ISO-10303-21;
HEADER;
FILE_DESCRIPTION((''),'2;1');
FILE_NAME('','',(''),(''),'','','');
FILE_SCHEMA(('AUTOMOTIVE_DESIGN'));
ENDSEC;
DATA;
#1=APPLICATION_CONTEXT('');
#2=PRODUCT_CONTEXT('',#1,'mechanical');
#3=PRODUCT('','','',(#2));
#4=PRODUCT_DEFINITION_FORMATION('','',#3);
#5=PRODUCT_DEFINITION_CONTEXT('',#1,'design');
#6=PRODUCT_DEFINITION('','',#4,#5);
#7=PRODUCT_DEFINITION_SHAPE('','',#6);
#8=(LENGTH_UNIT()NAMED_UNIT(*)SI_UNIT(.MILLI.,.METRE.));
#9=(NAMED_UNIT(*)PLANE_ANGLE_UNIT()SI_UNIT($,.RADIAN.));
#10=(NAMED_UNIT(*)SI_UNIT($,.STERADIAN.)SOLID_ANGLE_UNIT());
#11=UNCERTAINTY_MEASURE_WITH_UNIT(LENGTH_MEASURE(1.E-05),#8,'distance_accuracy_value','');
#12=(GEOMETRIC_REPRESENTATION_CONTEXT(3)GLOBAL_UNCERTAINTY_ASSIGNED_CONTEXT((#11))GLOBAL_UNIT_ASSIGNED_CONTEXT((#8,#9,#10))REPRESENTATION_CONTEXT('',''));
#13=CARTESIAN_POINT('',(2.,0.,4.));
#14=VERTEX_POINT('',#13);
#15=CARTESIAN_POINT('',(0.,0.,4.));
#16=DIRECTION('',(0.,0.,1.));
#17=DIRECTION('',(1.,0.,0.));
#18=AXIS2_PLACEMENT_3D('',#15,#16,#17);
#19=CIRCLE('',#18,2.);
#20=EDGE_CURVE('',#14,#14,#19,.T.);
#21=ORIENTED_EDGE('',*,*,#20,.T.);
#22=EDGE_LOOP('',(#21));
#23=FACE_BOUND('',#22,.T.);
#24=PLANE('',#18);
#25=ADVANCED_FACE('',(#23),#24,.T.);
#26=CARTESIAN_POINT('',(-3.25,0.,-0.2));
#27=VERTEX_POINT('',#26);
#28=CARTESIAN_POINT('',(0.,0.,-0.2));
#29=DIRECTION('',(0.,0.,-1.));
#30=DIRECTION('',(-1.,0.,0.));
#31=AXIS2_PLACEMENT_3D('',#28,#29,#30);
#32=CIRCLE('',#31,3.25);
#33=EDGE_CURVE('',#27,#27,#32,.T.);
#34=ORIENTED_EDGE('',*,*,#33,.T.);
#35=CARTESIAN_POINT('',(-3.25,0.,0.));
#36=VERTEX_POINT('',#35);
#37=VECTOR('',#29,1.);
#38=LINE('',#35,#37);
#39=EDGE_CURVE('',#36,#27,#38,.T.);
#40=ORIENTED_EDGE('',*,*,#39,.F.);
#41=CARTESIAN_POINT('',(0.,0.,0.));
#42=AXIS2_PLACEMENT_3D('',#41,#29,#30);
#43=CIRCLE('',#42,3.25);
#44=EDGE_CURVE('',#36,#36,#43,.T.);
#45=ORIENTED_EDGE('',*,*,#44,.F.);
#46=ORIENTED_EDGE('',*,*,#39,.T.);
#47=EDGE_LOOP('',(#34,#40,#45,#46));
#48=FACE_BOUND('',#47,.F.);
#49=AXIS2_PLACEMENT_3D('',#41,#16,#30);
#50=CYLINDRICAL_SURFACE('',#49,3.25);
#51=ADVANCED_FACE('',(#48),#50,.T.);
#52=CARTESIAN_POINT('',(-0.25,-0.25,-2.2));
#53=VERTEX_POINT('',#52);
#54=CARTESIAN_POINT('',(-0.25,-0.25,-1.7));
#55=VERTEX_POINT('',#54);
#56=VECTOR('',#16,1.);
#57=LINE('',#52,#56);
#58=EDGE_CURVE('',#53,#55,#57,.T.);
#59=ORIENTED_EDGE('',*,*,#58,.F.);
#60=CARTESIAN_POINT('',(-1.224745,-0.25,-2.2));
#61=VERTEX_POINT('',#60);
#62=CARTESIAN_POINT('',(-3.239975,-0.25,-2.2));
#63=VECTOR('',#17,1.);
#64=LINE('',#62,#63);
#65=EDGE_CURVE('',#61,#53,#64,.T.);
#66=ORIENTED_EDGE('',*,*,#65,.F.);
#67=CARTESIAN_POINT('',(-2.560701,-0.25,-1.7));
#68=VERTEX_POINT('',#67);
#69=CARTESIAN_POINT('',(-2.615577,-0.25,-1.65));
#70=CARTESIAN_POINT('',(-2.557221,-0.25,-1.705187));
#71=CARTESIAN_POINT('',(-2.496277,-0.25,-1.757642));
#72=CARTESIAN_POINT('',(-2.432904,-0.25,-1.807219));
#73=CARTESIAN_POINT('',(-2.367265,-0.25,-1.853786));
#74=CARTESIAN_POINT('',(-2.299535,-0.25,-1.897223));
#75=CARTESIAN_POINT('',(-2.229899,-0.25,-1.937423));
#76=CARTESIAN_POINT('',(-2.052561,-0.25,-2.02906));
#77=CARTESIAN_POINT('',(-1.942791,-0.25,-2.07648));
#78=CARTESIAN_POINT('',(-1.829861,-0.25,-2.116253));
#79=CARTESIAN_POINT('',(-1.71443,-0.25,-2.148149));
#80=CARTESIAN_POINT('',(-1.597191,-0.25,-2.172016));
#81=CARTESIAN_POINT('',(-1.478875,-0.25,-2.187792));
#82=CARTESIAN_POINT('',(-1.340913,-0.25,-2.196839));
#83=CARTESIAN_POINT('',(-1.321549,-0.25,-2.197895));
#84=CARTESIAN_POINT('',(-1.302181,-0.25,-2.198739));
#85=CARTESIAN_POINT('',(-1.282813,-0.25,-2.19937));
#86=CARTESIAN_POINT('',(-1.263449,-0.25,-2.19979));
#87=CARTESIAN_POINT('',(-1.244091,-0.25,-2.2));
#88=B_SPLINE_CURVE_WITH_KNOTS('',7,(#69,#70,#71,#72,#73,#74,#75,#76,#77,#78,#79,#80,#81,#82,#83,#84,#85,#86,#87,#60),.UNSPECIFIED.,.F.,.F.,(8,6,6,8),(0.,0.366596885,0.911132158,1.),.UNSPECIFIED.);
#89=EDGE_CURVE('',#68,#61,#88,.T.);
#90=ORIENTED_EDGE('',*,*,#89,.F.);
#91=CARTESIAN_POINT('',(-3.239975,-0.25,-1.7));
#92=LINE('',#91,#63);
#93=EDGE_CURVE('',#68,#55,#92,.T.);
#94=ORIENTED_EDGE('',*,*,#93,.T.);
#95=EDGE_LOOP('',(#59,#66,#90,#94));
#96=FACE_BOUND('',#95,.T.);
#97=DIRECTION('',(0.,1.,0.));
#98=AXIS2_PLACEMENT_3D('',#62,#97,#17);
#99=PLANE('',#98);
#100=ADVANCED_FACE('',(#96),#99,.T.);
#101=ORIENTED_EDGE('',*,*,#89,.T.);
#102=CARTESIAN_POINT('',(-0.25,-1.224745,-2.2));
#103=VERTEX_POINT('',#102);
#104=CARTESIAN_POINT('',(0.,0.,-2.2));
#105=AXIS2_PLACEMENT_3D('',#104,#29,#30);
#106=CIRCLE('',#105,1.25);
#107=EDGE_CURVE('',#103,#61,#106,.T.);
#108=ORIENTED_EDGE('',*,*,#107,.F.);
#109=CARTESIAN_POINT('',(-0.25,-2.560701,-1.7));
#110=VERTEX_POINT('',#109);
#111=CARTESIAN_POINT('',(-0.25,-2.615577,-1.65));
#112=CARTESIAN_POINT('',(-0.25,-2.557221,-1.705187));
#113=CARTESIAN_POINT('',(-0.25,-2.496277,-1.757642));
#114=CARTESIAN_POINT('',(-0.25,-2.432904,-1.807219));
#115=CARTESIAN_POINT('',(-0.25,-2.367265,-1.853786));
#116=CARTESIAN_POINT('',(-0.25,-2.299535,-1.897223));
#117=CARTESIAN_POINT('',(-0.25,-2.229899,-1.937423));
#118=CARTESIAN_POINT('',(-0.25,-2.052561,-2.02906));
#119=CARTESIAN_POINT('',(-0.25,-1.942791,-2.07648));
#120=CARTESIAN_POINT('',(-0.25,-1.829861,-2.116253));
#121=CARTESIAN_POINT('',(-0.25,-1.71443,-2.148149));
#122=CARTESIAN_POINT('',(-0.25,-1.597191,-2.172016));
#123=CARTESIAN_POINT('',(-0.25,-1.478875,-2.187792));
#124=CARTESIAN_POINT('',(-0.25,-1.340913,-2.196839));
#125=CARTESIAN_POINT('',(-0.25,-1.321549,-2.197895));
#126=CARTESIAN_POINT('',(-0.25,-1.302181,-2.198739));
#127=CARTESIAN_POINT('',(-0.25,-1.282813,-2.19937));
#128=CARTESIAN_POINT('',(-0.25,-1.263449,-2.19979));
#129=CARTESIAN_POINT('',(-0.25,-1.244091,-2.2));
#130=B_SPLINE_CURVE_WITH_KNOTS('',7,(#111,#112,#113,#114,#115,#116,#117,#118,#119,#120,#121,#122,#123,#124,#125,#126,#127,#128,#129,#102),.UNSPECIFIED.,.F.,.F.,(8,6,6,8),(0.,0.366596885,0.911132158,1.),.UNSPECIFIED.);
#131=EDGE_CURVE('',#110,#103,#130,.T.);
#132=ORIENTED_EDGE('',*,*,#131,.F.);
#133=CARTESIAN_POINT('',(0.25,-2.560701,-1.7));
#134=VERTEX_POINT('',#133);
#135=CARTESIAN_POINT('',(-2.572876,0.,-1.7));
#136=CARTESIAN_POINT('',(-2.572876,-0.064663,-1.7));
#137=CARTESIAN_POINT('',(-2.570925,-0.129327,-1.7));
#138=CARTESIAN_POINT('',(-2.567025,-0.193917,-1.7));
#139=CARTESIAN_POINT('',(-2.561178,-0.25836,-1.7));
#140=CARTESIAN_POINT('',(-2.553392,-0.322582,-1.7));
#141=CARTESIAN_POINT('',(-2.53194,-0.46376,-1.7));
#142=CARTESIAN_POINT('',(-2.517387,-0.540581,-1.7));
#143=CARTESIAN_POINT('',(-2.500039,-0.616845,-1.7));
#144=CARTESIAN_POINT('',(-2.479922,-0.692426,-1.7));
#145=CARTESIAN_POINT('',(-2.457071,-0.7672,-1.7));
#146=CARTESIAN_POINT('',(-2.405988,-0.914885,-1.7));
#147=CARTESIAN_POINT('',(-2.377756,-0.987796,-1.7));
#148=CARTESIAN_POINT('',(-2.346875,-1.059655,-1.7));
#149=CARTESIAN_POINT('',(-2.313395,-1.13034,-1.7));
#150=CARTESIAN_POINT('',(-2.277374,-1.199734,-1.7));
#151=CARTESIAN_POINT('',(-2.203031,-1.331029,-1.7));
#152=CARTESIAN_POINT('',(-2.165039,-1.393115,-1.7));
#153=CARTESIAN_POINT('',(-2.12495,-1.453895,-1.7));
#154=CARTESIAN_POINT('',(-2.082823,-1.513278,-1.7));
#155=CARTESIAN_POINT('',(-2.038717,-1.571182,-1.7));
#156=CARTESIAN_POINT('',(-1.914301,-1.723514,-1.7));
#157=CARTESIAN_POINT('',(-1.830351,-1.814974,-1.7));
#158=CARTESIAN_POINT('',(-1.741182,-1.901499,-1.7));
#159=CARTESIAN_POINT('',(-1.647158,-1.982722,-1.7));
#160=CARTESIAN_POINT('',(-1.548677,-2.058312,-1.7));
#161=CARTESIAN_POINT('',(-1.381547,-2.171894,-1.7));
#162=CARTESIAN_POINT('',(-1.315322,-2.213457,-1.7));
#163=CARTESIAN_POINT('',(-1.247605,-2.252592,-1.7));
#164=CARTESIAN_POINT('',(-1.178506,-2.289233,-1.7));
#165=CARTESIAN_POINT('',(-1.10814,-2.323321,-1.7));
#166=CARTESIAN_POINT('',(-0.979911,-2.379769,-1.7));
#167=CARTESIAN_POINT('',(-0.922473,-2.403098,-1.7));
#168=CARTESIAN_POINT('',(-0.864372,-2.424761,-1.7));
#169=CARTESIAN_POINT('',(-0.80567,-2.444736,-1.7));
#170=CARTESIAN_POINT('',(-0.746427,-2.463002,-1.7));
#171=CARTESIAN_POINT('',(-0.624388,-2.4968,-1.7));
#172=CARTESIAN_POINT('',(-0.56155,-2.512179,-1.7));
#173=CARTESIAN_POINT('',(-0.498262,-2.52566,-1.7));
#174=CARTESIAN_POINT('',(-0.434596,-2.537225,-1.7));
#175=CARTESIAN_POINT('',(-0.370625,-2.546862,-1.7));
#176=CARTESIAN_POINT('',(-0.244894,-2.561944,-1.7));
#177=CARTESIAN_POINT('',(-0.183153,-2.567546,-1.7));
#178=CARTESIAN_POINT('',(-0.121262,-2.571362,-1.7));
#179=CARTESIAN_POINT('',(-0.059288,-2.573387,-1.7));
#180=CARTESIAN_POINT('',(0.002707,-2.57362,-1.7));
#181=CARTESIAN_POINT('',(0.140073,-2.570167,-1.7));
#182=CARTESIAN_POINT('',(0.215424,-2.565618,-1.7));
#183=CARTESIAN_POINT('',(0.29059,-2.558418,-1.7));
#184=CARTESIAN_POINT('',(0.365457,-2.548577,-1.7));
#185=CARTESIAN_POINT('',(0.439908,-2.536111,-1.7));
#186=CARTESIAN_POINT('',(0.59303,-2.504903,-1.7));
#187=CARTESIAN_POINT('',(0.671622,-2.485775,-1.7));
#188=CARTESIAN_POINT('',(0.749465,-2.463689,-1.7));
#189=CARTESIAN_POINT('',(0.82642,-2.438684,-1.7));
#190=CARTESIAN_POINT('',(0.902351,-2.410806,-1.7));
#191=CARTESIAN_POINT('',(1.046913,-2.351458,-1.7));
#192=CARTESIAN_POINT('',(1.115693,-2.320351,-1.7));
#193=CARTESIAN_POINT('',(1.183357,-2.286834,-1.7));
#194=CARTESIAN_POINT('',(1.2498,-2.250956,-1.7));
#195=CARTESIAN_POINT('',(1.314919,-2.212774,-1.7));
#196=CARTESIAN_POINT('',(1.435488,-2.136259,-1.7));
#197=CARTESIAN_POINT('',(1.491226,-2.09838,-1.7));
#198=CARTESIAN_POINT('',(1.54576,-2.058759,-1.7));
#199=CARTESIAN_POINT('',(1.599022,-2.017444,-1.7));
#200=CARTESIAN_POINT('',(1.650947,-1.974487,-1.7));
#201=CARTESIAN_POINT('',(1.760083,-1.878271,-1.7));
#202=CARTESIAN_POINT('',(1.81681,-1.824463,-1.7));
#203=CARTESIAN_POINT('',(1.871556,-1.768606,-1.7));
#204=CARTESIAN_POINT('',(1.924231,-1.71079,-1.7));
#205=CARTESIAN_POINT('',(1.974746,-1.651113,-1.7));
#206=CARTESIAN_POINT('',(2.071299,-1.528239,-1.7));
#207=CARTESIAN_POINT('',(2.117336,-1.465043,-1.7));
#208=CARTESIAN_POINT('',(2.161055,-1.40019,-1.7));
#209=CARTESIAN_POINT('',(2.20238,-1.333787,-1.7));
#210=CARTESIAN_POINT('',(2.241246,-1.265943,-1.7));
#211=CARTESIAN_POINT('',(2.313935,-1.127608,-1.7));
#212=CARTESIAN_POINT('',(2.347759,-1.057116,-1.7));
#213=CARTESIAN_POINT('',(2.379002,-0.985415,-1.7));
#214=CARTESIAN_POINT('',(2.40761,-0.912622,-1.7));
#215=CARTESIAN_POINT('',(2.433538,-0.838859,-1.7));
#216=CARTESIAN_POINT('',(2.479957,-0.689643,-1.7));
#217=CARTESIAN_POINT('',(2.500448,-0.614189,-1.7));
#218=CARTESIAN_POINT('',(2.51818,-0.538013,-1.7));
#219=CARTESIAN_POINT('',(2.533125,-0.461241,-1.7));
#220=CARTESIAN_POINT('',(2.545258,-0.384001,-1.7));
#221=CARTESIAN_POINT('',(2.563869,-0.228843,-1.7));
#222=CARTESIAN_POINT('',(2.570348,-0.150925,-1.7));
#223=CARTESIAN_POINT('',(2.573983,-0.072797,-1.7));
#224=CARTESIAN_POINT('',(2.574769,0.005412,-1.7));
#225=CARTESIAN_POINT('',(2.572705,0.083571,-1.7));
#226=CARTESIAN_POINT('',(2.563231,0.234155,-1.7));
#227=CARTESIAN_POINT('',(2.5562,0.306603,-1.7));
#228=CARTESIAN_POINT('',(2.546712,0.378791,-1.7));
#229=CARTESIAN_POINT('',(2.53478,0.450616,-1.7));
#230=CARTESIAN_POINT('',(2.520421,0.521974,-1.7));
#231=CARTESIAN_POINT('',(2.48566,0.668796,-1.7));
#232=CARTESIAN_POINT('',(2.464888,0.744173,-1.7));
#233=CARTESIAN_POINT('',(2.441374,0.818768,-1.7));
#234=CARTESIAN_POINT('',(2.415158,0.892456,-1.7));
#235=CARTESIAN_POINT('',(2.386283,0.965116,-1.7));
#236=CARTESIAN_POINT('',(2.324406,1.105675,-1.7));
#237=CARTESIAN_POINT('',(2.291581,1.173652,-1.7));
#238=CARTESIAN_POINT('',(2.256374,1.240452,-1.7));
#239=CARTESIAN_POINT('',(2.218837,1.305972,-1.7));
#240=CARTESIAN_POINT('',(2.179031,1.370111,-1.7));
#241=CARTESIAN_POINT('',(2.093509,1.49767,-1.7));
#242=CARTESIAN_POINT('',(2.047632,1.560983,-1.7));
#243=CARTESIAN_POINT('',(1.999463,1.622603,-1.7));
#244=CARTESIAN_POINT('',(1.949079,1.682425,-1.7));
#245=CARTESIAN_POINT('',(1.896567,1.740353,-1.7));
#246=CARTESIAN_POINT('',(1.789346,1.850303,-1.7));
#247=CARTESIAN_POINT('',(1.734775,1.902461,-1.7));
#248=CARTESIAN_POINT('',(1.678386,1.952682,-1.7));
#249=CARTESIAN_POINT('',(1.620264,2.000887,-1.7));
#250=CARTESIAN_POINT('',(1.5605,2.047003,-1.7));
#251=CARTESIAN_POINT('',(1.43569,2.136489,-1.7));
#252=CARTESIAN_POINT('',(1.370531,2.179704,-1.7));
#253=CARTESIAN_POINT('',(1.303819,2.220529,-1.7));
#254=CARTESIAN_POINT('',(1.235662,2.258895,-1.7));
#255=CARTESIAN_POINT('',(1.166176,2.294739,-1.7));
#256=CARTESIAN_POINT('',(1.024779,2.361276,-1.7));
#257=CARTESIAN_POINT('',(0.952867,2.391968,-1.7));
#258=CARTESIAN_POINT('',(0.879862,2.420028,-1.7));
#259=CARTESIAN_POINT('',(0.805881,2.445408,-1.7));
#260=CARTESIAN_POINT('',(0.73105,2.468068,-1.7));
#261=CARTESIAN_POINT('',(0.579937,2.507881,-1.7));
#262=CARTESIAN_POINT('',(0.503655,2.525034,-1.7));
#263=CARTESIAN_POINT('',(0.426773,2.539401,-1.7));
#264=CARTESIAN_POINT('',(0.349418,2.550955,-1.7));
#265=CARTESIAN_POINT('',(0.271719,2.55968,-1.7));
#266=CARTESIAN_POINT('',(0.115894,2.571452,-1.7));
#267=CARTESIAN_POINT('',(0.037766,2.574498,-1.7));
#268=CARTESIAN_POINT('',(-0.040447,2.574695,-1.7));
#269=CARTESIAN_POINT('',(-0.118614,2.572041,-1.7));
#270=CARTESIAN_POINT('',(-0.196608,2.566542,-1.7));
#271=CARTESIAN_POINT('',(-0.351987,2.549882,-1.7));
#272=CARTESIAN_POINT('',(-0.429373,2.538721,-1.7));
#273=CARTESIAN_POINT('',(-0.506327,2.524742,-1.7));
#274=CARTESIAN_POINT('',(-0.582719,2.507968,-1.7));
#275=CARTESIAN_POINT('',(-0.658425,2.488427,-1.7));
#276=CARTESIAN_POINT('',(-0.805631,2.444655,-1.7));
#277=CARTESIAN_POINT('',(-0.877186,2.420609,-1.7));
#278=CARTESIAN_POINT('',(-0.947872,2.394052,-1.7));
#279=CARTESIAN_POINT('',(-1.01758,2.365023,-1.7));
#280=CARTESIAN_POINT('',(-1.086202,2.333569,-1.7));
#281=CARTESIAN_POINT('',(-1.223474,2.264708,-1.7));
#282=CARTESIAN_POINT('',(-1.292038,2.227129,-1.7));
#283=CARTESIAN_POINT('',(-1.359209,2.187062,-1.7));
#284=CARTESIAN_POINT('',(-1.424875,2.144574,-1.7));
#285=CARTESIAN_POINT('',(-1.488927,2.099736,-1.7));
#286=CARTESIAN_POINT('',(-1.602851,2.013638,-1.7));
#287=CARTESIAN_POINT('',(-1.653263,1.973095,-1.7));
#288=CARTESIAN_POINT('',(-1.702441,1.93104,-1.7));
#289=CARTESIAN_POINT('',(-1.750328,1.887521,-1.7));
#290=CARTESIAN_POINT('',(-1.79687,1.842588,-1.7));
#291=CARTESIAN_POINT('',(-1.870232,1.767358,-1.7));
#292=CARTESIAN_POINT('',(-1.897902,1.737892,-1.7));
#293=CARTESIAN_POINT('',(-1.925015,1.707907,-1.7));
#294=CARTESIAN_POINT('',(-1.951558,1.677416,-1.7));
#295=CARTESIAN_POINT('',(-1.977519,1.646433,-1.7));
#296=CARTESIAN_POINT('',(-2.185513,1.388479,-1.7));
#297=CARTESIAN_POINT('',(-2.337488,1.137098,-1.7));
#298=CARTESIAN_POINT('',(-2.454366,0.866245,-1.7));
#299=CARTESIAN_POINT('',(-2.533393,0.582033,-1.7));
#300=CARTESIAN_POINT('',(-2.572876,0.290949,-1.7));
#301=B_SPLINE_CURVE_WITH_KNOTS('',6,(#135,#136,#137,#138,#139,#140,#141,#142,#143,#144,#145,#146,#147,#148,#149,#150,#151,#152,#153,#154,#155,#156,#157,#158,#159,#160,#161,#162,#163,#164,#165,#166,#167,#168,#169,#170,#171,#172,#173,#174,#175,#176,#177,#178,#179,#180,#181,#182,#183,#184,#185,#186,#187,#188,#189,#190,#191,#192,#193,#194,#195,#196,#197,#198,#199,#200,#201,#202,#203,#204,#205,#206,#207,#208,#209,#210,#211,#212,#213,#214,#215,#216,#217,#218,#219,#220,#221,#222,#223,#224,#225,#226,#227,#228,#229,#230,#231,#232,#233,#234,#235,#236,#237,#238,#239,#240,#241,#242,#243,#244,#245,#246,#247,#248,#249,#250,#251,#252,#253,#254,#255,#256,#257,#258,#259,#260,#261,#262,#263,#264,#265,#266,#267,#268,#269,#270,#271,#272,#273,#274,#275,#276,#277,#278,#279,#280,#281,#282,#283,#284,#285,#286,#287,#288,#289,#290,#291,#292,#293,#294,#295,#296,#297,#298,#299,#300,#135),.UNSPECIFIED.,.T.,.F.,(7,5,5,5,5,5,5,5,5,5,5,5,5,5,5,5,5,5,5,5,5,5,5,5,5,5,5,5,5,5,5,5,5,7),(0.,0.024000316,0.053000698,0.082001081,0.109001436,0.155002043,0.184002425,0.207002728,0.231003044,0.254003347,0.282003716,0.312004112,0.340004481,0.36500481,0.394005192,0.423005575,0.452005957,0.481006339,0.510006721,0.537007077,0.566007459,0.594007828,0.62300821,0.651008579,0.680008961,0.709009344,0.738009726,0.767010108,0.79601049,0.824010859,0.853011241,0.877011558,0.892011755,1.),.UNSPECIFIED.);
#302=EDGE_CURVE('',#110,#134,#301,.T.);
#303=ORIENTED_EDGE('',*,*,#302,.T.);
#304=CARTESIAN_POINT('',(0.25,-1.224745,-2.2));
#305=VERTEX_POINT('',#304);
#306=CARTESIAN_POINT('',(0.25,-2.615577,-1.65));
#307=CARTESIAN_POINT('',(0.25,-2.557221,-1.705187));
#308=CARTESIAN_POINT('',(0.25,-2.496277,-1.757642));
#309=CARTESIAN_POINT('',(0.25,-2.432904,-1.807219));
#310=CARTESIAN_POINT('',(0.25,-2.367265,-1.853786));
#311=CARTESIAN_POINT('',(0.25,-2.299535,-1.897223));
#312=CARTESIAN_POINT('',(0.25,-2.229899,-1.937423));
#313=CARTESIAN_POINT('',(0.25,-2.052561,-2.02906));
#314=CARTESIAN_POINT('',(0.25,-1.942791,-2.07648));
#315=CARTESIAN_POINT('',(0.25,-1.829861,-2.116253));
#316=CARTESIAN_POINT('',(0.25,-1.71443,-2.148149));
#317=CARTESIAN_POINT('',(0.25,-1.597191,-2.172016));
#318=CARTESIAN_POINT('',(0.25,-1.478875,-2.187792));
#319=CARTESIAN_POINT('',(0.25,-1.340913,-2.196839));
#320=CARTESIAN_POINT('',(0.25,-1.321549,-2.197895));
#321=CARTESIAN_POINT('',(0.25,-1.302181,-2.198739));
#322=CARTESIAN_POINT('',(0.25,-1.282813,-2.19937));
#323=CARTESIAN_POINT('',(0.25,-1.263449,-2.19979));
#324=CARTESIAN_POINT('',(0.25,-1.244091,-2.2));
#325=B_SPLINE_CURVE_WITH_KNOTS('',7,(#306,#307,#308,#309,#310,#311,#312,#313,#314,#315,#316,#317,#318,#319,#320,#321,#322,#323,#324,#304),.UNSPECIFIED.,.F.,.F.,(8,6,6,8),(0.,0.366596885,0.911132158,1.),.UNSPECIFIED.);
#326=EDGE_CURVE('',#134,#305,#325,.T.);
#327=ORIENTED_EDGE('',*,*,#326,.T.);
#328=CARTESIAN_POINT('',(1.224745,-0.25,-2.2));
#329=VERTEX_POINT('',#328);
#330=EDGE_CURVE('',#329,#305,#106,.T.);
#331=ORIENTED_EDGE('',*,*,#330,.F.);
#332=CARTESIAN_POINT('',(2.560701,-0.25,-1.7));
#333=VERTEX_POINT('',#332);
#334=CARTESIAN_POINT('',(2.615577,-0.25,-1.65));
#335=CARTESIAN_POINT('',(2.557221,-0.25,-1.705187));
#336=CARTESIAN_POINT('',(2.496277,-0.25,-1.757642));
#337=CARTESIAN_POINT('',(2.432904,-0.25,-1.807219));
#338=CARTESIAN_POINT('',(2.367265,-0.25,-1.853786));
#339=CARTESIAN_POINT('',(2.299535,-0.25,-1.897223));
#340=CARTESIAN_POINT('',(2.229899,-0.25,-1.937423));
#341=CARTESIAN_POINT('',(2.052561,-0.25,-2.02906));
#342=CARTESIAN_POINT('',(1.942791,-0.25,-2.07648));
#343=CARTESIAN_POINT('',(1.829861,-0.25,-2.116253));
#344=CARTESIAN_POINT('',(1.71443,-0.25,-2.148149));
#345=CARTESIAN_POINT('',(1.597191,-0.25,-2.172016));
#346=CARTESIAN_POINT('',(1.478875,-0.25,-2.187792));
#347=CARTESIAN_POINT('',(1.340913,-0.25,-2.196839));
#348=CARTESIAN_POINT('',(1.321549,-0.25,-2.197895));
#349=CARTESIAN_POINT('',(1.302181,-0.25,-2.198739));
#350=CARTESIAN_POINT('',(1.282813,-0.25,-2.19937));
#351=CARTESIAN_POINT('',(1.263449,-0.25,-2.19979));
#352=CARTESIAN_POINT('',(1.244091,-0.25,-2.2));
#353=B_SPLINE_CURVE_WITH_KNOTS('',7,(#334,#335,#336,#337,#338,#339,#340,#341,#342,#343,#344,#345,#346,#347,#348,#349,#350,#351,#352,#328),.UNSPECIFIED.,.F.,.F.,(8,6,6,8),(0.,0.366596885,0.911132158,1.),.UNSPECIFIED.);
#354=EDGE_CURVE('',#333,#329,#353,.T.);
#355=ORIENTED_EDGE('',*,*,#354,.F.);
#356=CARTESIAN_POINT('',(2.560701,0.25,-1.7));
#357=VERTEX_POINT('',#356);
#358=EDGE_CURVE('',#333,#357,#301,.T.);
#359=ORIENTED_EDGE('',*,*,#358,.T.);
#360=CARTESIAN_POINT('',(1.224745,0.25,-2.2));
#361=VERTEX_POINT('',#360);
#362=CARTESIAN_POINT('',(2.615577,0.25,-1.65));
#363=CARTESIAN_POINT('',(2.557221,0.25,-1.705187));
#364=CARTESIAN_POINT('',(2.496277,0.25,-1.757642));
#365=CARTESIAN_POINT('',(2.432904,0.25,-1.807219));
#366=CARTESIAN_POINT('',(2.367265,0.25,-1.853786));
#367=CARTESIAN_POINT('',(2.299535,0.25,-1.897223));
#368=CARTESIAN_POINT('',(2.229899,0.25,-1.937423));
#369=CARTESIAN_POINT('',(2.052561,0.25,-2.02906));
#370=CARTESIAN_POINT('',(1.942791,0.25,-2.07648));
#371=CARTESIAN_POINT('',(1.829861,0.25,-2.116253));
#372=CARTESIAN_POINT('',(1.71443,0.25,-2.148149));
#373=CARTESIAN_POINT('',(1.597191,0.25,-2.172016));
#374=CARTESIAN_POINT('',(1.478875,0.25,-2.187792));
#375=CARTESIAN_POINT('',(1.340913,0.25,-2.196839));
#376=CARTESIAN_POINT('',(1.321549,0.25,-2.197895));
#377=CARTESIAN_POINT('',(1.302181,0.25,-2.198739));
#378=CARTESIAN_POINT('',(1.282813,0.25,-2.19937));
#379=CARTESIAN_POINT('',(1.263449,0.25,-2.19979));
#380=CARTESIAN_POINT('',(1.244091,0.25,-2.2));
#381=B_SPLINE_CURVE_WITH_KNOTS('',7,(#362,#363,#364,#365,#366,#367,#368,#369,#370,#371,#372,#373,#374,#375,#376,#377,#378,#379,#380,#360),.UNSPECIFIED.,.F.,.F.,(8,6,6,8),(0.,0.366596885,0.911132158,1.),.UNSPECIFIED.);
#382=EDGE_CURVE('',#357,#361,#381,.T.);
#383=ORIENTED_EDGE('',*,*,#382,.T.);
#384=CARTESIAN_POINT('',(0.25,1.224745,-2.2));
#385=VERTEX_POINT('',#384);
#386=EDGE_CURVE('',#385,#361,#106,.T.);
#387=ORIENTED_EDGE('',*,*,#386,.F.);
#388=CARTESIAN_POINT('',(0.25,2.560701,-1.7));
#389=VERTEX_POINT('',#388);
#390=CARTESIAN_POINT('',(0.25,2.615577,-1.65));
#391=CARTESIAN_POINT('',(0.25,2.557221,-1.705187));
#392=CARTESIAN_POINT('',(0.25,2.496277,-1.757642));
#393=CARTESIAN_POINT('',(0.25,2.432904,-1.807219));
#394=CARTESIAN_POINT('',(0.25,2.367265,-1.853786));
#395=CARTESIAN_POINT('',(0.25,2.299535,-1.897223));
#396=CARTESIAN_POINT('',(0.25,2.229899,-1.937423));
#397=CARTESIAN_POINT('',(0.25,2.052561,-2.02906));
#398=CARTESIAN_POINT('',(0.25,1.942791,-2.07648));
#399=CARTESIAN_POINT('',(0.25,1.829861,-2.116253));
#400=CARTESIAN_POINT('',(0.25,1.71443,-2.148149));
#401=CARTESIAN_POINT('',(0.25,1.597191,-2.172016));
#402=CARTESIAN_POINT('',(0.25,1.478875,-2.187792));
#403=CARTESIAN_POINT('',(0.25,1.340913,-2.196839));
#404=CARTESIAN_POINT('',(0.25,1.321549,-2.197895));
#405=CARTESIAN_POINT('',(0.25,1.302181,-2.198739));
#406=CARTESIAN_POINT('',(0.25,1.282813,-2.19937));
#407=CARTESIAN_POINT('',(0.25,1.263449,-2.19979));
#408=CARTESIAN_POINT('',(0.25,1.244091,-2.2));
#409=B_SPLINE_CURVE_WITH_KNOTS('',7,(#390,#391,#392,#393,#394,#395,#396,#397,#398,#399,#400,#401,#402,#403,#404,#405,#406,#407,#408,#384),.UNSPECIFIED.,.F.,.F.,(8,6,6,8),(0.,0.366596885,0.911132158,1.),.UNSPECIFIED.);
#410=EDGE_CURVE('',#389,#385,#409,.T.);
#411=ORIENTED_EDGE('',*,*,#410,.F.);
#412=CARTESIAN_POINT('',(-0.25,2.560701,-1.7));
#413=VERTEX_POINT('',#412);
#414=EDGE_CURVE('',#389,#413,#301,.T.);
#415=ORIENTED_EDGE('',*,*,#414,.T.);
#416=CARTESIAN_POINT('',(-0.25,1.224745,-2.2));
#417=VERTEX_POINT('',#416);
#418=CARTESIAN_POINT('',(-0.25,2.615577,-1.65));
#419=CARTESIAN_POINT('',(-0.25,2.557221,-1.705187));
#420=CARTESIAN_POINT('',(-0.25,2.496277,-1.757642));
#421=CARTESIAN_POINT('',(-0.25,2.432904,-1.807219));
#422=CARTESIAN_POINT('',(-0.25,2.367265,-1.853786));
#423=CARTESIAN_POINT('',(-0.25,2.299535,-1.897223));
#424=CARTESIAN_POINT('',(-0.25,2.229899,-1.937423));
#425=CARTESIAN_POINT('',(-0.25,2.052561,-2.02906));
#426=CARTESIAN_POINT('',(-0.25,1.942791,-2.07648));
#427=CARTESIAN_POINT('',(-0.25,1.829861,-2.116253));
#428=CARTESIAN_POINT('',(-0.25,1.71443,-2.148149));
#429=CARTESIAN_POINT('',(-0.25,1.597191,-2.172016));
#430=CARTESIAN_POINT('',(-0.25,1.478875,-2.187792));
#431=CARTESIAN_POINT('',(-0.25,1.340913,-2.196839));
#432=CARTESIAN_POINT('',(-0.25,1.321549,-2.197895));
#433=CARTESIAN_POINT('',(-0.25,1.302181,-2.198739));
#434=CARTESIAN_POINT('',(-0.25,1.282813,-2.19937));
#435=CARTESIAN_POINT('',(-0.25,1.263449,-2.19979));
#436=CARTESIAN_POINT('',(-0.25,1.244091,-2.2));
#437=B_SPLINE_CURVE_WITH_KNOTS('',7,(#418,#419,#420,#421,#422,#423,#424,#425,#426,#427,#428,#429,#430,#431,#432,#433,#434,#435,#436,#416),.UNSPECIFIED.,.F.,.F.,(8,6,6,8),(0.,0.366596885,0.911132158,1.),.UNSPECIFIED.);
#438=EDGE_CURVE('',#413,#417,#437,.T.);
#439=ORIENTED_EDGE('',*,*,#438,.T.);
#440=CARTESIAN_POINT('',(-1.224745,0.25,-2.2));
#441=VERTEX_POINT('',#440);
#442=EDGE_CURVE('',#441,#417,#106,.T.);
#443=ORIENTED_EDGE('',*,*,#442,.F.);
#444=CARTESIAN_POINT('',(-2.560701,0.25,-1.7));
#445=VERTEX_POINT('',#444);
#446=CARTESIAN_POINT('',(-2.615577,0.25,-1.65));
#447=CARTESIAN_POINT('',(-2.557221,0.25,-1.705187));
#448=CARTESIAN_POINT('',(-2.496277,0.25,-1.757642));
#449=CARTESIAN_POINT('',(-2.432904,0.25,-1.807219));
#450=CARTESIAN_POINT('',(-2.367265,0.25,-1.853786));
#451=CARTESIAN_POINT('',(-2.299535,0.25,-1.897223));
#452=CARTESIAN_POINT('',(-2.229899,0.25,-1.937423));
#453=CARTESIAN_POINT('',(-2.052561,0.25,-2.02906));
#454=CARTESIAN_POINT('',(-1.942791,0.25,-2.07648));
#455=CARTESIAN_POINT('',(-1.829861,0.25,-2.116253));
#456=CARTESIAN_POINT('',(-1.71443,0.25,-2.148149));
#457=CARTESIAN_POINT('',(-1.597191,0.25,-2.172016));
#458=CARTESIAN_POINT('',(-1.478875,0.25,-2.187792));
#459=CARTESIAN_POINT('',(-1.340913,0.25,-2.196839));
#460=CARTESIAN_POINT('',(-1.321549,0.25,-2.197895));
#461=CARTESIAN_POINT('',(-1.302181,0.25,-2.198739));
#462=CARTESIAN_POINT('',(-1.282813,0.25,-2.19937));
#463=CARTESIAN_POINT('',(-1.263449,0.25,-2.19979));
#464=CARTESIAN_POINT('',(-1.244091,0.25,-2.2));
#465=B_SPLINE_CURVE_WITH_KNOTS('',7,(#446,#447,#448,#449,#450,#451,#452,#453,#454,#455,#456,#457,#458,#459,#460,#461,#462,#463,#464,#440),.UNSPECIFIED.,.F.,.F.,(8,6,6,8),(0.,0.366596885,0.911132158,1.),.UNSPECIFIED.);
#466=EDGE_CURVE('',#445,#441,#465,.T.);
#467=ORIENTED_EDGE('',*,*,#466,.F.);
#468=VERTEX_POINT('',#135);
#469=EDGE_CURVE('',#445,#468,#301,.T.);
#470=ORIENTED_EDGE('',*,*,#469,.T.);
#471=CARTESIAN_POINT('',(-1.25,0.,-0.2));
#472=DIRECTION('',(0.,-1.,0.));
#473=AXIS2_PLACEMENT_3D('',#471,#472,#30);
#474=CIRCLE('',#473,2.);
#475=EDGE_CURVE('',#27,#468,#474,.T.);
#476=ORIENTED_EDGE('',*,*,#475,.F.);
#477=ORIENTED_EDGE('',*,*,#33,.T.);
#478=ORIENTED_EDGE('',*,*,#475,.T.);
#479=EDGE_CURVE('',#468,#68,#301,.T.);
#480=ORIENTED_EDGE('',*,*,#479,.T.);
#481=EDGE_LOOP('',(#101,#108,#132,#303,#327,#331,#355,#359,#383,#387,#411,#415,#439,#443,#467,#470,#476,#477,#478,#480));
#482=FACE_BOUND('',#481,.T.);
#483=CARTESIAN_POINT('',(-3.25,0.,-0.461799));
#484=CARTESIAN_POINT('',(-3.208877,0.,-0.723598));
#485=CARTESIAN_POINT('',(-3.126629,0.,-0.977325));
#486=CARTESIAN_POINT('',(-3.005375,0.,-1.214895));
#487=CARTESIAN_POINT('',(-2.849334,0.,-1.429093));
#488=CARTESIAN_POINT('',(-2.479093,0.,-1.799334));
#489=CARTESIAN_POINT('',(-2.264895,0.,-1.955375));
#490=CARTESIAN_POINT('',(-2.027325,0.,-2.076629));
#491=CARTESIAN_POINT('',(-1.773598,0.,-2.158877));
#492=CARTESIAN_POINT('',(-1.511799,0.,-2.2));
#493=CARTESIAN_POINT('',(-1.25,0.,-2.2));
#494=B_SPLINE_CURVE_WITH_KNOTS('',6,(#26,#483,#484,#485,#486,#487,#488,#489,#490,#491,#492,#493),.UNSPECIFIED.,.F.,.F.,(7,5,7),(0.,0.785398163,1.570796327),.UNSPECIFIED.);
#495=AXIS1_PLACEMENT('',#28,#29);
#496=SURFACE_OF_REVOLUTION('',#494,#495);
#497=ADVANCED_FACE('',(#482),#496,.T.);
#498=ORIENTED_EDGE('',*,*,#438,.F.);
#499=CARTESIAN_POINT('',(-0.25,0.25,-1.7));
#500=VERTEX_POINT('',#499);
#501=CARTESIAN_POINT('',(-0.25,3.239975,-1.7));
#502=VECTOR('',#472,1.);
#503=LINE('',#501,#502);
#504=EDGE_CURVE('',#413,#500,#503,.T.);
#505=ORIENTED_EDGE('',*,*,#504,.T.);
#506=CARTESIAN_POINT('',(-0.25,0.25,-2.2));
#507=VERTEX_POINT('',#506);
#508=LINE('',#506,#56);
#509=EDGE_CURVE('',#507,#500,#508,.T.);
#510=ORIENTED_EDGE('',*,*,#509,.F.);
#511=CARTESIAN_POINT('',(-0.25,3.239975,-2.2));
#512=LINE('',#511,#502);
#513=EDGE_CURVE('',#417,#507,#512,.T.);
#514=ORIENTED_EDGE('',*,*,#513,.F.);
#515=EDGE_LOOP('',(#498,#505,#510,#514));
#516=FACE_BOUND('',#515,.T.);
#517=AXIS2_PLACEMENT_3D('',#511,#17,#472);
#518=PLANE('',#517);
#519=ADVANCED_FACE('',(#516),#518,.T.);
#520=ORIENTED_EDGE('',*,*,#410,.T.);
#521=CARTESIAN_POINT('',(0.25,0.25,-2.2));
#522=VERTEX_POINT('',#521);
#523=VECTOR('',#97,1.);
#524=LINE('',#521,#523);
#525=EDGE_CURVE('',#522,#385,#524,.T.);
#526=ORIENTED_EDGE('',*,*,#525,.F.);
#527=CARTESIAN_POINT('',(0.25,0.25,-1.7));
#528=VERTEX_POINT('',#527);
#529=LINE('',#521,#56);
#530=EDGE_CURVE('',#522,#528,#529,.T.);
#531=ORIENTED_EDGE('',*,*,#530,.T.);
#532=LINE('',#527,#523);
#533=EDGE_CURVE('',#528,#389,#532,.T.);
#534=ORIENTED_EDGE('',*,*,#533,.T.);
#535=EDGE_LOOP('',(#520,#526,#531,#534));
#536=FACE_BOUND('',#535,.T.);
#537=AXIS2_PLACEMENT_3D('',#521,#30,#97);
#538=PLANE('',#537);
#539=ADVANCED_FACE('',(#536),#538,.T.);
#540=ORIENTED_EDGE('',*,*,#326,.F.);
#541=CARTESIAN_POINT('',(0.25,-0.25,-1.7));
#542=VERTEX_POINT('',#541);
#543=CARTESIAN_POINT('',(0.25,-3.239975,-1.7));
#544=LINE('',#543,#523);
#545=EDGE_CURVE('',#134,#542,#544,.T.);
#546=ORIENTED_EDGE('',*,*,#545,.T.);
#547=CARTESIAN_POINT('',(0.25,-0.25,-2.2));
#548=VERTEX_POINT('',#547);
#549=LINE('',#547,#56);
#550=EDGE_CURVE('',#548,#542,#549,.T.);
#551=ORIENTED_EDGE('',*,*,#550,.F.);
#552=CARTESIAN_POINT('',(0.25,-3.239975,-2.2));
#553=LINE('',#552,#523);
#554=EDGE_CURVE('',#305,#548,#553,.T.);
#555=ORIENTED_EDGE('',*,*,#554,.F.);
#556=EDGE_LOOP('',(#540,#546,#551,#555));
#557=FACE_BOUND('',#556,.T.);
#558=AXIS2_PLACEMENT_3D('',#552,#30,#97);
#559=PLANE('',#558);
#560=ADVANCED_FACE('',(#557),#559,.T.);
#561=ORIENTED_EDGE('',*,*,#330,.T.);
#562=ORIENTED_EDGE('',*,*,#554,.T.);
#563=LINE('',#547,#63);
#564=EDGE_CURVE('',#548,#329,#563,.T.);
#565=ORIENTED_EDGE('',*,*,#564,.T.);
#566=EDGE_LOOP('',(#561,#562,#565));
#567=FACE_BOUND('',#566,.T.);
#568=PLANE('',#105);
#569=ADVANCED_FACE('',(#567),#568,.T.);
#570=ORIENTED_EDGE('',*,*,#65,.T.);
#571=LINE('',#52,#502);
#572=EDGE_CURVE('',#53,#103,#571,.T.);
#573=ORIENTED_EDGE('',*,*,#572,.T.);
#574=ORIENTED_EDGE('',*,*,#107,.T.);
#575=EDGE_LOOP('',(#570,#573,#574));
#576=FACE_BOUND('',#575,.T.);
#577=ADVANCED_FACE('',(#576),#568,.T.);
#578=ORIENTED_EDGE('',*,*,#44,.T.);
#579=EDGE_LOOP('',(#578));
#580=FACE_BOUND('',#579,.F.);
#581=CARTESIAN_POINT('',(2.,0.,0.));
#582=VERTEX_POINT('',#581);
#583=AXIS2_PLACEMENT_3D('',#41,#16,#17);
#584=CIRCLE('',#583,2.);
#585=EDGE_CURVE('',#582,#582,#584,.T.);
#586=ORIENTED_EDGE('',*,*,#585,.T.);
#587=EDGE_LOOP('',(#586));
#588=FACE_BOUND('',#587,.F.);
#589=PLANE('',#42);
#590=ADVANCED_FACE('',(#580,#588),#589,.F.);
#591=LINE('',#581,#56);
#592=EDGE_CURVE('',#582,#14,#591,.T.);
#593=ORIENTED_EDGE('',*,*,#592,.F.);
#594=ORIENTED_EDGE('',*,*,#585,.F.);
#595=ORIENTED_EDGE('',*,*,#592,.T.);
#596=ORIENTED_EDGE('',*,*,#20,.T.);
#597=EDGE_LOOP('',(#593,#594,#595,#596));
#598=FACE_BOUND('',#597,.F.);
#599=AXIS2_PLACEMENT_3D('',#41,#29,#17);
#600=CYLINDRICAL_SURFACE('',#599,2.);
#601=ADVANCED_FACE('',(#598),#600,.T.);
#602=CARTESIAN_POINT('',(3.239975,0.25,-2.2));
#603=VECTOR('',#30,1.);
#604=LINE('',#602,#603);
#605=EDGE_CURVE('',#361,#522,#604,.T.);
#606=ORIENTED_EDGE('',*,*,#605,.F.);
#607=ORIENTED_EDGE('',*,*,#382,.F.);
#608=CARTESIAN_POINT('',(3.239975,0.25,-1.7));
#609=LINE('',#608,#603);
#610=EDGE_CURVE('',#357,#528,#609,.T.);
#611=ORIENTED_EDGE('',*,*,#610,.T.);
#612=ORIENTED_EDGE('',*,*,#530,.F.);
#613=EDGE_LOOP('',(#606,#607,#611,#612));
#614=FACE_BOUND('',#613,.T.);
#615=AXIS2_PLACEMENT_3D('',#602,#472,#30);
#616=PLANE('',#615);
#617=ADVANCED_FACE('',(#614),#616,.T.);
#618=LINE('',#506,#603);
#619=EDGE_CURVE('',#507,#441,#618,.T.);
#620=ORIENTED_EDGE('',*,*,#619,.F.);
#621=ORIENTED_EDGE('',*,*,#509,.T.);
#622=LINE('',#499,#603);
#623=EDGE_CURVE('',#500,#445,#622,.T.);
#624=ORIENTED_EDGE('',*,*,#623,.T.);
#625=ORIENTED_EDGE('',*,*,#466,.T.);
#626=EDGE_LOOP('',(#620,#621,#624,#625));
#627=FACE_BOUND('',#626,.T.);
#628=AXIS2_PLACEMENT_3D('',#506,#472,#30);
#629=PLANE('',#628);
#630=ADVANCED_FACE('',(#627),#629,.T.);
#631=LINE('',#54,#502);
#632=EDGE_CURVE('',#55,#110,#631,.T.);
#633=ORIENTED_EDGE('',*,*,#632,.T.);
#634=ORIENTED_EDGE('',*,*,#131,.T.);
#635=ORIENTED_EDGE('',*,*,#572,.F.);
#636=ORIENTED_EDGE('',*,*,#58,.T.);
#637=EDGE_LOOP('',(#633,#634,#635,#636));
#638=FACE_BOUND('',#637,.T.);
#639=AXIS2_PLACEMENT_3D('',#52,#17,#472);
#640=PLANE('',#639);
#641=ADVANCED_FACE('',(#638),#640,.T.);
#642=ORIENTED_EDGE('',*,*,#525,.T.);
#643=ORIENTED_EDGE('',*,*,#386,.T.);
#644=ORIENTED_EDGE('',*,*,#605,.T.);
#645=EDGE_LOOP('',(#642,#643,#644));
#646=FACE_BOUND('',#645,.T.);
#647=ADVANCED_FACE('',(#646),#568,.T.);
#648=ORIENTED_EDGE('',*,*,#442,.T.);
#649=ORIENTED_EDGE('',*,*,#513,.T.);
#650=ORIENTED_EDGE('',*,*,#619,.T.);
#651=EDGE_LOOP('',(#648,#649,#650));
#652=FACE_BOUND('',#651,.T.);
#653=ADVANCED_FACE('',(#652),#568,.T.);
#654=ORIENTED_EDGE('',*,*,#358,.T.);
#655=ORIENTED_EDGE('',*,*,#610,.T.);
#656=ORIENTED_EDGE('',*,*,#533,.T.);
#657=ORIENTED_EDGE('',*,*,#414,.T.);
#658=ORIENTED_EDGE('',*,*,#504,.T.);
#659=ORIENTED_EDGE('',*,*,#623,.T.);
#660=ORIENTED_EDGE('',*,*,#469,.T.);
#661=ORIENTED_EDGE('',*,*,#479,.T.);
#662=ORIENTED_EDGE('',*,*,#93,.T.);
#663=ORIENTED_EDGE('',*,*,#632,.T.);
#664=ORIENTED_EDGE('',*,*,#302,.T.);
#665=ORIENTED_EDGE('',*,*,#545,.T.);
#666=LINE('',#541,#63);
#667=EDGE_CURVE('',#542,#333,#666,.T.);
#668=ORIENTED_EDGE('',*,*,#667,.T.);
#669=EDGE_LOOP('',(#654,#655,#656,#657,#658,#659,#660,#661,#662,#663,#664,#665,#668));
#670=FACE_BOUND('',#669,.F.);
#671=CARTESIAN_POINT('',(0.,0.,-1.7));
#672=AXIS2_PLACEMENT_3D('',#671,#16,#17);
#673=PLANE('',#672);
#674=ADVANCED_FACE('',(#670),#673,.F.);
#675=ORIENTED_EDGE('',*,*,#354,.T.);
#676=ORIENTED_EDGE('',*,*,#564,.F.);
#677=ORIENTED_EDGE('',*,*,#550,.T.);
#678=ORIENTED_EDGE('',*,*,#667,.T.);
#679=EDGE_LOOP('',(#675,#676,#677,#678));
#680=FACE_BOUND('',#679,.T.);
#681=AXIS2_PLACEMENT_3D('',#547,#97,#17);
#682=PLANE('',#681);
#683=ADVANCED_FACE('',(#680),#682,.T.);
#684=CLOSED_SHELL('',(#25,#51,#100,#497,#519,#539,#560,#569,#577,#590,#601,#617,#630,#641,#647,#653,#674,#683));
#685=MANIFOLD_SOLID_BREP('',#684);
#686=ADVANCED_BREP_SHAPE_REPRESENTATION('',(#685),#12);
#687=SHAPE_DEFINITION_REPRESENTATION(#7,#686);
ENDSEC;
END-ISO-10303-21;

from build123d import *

# Parameters (mm, degrees)
SKETCH_1_R          = 2
EXTRUDE_1_DEPTH     = 4
SKETCH_2_R          = 3.25
EXTRUDE_2_DEPTH     = 2.2
FILLET_1_R          = 2
CUT_EXTRUDE_1_DEPTH = 0.5


with BuildPart() as part:
    # 草图1 → 凸台-拉伸1 (new body)
    with BuildSketch(Plane.XY):
        Circle(SKETCH_1_R)
    extrude(amount=EXTRUDE_1_DEPTH)

    # 草图2 → 凸台-拉伸2 (add)
    with BuildSketch(Plane(origin=(0, 0, 0), x_dir=(-1, 0, 0), z_dir=(0, 0, -1))):
        Circle(SKETCH_2_R)
    extrude(amount=EXTRUDE_2_DEPTH)

    # 圆角1
    fillet_1_edges = [part.edges().sort_by_distance(p)[0] for p in [
        (3.25, 0, -2.2),
    ]]
    fillet(fillet_1_edges, radius=FILLET_1_R)

    # 草图3 → 切除-拉伸1 (cut)
    with BuildSketch(Plane(origin=(0, 0, -2.2), x_dir=(-1, 0, 0), z_dir=(0, 0, -1))):
        Polygon((3.239974874, 0.25), (3.239974874, -0.25), (0.25, -0.25), (0.25, -3.239974874), (-0.25, -3.239974874), (-0.25, -0.25), (-3.239974874, -0.25), (-3.239974874, 0.25), (-0.25, 0.25), (-0.25, 3.239974874), (0.25, 3.239974874), (0.25, 0.25), align=None)
    extrude(amount=-CUT_EXTRUDE_1_DEPTH, mode=Mode.SUBTRACT)


solid = part.part
